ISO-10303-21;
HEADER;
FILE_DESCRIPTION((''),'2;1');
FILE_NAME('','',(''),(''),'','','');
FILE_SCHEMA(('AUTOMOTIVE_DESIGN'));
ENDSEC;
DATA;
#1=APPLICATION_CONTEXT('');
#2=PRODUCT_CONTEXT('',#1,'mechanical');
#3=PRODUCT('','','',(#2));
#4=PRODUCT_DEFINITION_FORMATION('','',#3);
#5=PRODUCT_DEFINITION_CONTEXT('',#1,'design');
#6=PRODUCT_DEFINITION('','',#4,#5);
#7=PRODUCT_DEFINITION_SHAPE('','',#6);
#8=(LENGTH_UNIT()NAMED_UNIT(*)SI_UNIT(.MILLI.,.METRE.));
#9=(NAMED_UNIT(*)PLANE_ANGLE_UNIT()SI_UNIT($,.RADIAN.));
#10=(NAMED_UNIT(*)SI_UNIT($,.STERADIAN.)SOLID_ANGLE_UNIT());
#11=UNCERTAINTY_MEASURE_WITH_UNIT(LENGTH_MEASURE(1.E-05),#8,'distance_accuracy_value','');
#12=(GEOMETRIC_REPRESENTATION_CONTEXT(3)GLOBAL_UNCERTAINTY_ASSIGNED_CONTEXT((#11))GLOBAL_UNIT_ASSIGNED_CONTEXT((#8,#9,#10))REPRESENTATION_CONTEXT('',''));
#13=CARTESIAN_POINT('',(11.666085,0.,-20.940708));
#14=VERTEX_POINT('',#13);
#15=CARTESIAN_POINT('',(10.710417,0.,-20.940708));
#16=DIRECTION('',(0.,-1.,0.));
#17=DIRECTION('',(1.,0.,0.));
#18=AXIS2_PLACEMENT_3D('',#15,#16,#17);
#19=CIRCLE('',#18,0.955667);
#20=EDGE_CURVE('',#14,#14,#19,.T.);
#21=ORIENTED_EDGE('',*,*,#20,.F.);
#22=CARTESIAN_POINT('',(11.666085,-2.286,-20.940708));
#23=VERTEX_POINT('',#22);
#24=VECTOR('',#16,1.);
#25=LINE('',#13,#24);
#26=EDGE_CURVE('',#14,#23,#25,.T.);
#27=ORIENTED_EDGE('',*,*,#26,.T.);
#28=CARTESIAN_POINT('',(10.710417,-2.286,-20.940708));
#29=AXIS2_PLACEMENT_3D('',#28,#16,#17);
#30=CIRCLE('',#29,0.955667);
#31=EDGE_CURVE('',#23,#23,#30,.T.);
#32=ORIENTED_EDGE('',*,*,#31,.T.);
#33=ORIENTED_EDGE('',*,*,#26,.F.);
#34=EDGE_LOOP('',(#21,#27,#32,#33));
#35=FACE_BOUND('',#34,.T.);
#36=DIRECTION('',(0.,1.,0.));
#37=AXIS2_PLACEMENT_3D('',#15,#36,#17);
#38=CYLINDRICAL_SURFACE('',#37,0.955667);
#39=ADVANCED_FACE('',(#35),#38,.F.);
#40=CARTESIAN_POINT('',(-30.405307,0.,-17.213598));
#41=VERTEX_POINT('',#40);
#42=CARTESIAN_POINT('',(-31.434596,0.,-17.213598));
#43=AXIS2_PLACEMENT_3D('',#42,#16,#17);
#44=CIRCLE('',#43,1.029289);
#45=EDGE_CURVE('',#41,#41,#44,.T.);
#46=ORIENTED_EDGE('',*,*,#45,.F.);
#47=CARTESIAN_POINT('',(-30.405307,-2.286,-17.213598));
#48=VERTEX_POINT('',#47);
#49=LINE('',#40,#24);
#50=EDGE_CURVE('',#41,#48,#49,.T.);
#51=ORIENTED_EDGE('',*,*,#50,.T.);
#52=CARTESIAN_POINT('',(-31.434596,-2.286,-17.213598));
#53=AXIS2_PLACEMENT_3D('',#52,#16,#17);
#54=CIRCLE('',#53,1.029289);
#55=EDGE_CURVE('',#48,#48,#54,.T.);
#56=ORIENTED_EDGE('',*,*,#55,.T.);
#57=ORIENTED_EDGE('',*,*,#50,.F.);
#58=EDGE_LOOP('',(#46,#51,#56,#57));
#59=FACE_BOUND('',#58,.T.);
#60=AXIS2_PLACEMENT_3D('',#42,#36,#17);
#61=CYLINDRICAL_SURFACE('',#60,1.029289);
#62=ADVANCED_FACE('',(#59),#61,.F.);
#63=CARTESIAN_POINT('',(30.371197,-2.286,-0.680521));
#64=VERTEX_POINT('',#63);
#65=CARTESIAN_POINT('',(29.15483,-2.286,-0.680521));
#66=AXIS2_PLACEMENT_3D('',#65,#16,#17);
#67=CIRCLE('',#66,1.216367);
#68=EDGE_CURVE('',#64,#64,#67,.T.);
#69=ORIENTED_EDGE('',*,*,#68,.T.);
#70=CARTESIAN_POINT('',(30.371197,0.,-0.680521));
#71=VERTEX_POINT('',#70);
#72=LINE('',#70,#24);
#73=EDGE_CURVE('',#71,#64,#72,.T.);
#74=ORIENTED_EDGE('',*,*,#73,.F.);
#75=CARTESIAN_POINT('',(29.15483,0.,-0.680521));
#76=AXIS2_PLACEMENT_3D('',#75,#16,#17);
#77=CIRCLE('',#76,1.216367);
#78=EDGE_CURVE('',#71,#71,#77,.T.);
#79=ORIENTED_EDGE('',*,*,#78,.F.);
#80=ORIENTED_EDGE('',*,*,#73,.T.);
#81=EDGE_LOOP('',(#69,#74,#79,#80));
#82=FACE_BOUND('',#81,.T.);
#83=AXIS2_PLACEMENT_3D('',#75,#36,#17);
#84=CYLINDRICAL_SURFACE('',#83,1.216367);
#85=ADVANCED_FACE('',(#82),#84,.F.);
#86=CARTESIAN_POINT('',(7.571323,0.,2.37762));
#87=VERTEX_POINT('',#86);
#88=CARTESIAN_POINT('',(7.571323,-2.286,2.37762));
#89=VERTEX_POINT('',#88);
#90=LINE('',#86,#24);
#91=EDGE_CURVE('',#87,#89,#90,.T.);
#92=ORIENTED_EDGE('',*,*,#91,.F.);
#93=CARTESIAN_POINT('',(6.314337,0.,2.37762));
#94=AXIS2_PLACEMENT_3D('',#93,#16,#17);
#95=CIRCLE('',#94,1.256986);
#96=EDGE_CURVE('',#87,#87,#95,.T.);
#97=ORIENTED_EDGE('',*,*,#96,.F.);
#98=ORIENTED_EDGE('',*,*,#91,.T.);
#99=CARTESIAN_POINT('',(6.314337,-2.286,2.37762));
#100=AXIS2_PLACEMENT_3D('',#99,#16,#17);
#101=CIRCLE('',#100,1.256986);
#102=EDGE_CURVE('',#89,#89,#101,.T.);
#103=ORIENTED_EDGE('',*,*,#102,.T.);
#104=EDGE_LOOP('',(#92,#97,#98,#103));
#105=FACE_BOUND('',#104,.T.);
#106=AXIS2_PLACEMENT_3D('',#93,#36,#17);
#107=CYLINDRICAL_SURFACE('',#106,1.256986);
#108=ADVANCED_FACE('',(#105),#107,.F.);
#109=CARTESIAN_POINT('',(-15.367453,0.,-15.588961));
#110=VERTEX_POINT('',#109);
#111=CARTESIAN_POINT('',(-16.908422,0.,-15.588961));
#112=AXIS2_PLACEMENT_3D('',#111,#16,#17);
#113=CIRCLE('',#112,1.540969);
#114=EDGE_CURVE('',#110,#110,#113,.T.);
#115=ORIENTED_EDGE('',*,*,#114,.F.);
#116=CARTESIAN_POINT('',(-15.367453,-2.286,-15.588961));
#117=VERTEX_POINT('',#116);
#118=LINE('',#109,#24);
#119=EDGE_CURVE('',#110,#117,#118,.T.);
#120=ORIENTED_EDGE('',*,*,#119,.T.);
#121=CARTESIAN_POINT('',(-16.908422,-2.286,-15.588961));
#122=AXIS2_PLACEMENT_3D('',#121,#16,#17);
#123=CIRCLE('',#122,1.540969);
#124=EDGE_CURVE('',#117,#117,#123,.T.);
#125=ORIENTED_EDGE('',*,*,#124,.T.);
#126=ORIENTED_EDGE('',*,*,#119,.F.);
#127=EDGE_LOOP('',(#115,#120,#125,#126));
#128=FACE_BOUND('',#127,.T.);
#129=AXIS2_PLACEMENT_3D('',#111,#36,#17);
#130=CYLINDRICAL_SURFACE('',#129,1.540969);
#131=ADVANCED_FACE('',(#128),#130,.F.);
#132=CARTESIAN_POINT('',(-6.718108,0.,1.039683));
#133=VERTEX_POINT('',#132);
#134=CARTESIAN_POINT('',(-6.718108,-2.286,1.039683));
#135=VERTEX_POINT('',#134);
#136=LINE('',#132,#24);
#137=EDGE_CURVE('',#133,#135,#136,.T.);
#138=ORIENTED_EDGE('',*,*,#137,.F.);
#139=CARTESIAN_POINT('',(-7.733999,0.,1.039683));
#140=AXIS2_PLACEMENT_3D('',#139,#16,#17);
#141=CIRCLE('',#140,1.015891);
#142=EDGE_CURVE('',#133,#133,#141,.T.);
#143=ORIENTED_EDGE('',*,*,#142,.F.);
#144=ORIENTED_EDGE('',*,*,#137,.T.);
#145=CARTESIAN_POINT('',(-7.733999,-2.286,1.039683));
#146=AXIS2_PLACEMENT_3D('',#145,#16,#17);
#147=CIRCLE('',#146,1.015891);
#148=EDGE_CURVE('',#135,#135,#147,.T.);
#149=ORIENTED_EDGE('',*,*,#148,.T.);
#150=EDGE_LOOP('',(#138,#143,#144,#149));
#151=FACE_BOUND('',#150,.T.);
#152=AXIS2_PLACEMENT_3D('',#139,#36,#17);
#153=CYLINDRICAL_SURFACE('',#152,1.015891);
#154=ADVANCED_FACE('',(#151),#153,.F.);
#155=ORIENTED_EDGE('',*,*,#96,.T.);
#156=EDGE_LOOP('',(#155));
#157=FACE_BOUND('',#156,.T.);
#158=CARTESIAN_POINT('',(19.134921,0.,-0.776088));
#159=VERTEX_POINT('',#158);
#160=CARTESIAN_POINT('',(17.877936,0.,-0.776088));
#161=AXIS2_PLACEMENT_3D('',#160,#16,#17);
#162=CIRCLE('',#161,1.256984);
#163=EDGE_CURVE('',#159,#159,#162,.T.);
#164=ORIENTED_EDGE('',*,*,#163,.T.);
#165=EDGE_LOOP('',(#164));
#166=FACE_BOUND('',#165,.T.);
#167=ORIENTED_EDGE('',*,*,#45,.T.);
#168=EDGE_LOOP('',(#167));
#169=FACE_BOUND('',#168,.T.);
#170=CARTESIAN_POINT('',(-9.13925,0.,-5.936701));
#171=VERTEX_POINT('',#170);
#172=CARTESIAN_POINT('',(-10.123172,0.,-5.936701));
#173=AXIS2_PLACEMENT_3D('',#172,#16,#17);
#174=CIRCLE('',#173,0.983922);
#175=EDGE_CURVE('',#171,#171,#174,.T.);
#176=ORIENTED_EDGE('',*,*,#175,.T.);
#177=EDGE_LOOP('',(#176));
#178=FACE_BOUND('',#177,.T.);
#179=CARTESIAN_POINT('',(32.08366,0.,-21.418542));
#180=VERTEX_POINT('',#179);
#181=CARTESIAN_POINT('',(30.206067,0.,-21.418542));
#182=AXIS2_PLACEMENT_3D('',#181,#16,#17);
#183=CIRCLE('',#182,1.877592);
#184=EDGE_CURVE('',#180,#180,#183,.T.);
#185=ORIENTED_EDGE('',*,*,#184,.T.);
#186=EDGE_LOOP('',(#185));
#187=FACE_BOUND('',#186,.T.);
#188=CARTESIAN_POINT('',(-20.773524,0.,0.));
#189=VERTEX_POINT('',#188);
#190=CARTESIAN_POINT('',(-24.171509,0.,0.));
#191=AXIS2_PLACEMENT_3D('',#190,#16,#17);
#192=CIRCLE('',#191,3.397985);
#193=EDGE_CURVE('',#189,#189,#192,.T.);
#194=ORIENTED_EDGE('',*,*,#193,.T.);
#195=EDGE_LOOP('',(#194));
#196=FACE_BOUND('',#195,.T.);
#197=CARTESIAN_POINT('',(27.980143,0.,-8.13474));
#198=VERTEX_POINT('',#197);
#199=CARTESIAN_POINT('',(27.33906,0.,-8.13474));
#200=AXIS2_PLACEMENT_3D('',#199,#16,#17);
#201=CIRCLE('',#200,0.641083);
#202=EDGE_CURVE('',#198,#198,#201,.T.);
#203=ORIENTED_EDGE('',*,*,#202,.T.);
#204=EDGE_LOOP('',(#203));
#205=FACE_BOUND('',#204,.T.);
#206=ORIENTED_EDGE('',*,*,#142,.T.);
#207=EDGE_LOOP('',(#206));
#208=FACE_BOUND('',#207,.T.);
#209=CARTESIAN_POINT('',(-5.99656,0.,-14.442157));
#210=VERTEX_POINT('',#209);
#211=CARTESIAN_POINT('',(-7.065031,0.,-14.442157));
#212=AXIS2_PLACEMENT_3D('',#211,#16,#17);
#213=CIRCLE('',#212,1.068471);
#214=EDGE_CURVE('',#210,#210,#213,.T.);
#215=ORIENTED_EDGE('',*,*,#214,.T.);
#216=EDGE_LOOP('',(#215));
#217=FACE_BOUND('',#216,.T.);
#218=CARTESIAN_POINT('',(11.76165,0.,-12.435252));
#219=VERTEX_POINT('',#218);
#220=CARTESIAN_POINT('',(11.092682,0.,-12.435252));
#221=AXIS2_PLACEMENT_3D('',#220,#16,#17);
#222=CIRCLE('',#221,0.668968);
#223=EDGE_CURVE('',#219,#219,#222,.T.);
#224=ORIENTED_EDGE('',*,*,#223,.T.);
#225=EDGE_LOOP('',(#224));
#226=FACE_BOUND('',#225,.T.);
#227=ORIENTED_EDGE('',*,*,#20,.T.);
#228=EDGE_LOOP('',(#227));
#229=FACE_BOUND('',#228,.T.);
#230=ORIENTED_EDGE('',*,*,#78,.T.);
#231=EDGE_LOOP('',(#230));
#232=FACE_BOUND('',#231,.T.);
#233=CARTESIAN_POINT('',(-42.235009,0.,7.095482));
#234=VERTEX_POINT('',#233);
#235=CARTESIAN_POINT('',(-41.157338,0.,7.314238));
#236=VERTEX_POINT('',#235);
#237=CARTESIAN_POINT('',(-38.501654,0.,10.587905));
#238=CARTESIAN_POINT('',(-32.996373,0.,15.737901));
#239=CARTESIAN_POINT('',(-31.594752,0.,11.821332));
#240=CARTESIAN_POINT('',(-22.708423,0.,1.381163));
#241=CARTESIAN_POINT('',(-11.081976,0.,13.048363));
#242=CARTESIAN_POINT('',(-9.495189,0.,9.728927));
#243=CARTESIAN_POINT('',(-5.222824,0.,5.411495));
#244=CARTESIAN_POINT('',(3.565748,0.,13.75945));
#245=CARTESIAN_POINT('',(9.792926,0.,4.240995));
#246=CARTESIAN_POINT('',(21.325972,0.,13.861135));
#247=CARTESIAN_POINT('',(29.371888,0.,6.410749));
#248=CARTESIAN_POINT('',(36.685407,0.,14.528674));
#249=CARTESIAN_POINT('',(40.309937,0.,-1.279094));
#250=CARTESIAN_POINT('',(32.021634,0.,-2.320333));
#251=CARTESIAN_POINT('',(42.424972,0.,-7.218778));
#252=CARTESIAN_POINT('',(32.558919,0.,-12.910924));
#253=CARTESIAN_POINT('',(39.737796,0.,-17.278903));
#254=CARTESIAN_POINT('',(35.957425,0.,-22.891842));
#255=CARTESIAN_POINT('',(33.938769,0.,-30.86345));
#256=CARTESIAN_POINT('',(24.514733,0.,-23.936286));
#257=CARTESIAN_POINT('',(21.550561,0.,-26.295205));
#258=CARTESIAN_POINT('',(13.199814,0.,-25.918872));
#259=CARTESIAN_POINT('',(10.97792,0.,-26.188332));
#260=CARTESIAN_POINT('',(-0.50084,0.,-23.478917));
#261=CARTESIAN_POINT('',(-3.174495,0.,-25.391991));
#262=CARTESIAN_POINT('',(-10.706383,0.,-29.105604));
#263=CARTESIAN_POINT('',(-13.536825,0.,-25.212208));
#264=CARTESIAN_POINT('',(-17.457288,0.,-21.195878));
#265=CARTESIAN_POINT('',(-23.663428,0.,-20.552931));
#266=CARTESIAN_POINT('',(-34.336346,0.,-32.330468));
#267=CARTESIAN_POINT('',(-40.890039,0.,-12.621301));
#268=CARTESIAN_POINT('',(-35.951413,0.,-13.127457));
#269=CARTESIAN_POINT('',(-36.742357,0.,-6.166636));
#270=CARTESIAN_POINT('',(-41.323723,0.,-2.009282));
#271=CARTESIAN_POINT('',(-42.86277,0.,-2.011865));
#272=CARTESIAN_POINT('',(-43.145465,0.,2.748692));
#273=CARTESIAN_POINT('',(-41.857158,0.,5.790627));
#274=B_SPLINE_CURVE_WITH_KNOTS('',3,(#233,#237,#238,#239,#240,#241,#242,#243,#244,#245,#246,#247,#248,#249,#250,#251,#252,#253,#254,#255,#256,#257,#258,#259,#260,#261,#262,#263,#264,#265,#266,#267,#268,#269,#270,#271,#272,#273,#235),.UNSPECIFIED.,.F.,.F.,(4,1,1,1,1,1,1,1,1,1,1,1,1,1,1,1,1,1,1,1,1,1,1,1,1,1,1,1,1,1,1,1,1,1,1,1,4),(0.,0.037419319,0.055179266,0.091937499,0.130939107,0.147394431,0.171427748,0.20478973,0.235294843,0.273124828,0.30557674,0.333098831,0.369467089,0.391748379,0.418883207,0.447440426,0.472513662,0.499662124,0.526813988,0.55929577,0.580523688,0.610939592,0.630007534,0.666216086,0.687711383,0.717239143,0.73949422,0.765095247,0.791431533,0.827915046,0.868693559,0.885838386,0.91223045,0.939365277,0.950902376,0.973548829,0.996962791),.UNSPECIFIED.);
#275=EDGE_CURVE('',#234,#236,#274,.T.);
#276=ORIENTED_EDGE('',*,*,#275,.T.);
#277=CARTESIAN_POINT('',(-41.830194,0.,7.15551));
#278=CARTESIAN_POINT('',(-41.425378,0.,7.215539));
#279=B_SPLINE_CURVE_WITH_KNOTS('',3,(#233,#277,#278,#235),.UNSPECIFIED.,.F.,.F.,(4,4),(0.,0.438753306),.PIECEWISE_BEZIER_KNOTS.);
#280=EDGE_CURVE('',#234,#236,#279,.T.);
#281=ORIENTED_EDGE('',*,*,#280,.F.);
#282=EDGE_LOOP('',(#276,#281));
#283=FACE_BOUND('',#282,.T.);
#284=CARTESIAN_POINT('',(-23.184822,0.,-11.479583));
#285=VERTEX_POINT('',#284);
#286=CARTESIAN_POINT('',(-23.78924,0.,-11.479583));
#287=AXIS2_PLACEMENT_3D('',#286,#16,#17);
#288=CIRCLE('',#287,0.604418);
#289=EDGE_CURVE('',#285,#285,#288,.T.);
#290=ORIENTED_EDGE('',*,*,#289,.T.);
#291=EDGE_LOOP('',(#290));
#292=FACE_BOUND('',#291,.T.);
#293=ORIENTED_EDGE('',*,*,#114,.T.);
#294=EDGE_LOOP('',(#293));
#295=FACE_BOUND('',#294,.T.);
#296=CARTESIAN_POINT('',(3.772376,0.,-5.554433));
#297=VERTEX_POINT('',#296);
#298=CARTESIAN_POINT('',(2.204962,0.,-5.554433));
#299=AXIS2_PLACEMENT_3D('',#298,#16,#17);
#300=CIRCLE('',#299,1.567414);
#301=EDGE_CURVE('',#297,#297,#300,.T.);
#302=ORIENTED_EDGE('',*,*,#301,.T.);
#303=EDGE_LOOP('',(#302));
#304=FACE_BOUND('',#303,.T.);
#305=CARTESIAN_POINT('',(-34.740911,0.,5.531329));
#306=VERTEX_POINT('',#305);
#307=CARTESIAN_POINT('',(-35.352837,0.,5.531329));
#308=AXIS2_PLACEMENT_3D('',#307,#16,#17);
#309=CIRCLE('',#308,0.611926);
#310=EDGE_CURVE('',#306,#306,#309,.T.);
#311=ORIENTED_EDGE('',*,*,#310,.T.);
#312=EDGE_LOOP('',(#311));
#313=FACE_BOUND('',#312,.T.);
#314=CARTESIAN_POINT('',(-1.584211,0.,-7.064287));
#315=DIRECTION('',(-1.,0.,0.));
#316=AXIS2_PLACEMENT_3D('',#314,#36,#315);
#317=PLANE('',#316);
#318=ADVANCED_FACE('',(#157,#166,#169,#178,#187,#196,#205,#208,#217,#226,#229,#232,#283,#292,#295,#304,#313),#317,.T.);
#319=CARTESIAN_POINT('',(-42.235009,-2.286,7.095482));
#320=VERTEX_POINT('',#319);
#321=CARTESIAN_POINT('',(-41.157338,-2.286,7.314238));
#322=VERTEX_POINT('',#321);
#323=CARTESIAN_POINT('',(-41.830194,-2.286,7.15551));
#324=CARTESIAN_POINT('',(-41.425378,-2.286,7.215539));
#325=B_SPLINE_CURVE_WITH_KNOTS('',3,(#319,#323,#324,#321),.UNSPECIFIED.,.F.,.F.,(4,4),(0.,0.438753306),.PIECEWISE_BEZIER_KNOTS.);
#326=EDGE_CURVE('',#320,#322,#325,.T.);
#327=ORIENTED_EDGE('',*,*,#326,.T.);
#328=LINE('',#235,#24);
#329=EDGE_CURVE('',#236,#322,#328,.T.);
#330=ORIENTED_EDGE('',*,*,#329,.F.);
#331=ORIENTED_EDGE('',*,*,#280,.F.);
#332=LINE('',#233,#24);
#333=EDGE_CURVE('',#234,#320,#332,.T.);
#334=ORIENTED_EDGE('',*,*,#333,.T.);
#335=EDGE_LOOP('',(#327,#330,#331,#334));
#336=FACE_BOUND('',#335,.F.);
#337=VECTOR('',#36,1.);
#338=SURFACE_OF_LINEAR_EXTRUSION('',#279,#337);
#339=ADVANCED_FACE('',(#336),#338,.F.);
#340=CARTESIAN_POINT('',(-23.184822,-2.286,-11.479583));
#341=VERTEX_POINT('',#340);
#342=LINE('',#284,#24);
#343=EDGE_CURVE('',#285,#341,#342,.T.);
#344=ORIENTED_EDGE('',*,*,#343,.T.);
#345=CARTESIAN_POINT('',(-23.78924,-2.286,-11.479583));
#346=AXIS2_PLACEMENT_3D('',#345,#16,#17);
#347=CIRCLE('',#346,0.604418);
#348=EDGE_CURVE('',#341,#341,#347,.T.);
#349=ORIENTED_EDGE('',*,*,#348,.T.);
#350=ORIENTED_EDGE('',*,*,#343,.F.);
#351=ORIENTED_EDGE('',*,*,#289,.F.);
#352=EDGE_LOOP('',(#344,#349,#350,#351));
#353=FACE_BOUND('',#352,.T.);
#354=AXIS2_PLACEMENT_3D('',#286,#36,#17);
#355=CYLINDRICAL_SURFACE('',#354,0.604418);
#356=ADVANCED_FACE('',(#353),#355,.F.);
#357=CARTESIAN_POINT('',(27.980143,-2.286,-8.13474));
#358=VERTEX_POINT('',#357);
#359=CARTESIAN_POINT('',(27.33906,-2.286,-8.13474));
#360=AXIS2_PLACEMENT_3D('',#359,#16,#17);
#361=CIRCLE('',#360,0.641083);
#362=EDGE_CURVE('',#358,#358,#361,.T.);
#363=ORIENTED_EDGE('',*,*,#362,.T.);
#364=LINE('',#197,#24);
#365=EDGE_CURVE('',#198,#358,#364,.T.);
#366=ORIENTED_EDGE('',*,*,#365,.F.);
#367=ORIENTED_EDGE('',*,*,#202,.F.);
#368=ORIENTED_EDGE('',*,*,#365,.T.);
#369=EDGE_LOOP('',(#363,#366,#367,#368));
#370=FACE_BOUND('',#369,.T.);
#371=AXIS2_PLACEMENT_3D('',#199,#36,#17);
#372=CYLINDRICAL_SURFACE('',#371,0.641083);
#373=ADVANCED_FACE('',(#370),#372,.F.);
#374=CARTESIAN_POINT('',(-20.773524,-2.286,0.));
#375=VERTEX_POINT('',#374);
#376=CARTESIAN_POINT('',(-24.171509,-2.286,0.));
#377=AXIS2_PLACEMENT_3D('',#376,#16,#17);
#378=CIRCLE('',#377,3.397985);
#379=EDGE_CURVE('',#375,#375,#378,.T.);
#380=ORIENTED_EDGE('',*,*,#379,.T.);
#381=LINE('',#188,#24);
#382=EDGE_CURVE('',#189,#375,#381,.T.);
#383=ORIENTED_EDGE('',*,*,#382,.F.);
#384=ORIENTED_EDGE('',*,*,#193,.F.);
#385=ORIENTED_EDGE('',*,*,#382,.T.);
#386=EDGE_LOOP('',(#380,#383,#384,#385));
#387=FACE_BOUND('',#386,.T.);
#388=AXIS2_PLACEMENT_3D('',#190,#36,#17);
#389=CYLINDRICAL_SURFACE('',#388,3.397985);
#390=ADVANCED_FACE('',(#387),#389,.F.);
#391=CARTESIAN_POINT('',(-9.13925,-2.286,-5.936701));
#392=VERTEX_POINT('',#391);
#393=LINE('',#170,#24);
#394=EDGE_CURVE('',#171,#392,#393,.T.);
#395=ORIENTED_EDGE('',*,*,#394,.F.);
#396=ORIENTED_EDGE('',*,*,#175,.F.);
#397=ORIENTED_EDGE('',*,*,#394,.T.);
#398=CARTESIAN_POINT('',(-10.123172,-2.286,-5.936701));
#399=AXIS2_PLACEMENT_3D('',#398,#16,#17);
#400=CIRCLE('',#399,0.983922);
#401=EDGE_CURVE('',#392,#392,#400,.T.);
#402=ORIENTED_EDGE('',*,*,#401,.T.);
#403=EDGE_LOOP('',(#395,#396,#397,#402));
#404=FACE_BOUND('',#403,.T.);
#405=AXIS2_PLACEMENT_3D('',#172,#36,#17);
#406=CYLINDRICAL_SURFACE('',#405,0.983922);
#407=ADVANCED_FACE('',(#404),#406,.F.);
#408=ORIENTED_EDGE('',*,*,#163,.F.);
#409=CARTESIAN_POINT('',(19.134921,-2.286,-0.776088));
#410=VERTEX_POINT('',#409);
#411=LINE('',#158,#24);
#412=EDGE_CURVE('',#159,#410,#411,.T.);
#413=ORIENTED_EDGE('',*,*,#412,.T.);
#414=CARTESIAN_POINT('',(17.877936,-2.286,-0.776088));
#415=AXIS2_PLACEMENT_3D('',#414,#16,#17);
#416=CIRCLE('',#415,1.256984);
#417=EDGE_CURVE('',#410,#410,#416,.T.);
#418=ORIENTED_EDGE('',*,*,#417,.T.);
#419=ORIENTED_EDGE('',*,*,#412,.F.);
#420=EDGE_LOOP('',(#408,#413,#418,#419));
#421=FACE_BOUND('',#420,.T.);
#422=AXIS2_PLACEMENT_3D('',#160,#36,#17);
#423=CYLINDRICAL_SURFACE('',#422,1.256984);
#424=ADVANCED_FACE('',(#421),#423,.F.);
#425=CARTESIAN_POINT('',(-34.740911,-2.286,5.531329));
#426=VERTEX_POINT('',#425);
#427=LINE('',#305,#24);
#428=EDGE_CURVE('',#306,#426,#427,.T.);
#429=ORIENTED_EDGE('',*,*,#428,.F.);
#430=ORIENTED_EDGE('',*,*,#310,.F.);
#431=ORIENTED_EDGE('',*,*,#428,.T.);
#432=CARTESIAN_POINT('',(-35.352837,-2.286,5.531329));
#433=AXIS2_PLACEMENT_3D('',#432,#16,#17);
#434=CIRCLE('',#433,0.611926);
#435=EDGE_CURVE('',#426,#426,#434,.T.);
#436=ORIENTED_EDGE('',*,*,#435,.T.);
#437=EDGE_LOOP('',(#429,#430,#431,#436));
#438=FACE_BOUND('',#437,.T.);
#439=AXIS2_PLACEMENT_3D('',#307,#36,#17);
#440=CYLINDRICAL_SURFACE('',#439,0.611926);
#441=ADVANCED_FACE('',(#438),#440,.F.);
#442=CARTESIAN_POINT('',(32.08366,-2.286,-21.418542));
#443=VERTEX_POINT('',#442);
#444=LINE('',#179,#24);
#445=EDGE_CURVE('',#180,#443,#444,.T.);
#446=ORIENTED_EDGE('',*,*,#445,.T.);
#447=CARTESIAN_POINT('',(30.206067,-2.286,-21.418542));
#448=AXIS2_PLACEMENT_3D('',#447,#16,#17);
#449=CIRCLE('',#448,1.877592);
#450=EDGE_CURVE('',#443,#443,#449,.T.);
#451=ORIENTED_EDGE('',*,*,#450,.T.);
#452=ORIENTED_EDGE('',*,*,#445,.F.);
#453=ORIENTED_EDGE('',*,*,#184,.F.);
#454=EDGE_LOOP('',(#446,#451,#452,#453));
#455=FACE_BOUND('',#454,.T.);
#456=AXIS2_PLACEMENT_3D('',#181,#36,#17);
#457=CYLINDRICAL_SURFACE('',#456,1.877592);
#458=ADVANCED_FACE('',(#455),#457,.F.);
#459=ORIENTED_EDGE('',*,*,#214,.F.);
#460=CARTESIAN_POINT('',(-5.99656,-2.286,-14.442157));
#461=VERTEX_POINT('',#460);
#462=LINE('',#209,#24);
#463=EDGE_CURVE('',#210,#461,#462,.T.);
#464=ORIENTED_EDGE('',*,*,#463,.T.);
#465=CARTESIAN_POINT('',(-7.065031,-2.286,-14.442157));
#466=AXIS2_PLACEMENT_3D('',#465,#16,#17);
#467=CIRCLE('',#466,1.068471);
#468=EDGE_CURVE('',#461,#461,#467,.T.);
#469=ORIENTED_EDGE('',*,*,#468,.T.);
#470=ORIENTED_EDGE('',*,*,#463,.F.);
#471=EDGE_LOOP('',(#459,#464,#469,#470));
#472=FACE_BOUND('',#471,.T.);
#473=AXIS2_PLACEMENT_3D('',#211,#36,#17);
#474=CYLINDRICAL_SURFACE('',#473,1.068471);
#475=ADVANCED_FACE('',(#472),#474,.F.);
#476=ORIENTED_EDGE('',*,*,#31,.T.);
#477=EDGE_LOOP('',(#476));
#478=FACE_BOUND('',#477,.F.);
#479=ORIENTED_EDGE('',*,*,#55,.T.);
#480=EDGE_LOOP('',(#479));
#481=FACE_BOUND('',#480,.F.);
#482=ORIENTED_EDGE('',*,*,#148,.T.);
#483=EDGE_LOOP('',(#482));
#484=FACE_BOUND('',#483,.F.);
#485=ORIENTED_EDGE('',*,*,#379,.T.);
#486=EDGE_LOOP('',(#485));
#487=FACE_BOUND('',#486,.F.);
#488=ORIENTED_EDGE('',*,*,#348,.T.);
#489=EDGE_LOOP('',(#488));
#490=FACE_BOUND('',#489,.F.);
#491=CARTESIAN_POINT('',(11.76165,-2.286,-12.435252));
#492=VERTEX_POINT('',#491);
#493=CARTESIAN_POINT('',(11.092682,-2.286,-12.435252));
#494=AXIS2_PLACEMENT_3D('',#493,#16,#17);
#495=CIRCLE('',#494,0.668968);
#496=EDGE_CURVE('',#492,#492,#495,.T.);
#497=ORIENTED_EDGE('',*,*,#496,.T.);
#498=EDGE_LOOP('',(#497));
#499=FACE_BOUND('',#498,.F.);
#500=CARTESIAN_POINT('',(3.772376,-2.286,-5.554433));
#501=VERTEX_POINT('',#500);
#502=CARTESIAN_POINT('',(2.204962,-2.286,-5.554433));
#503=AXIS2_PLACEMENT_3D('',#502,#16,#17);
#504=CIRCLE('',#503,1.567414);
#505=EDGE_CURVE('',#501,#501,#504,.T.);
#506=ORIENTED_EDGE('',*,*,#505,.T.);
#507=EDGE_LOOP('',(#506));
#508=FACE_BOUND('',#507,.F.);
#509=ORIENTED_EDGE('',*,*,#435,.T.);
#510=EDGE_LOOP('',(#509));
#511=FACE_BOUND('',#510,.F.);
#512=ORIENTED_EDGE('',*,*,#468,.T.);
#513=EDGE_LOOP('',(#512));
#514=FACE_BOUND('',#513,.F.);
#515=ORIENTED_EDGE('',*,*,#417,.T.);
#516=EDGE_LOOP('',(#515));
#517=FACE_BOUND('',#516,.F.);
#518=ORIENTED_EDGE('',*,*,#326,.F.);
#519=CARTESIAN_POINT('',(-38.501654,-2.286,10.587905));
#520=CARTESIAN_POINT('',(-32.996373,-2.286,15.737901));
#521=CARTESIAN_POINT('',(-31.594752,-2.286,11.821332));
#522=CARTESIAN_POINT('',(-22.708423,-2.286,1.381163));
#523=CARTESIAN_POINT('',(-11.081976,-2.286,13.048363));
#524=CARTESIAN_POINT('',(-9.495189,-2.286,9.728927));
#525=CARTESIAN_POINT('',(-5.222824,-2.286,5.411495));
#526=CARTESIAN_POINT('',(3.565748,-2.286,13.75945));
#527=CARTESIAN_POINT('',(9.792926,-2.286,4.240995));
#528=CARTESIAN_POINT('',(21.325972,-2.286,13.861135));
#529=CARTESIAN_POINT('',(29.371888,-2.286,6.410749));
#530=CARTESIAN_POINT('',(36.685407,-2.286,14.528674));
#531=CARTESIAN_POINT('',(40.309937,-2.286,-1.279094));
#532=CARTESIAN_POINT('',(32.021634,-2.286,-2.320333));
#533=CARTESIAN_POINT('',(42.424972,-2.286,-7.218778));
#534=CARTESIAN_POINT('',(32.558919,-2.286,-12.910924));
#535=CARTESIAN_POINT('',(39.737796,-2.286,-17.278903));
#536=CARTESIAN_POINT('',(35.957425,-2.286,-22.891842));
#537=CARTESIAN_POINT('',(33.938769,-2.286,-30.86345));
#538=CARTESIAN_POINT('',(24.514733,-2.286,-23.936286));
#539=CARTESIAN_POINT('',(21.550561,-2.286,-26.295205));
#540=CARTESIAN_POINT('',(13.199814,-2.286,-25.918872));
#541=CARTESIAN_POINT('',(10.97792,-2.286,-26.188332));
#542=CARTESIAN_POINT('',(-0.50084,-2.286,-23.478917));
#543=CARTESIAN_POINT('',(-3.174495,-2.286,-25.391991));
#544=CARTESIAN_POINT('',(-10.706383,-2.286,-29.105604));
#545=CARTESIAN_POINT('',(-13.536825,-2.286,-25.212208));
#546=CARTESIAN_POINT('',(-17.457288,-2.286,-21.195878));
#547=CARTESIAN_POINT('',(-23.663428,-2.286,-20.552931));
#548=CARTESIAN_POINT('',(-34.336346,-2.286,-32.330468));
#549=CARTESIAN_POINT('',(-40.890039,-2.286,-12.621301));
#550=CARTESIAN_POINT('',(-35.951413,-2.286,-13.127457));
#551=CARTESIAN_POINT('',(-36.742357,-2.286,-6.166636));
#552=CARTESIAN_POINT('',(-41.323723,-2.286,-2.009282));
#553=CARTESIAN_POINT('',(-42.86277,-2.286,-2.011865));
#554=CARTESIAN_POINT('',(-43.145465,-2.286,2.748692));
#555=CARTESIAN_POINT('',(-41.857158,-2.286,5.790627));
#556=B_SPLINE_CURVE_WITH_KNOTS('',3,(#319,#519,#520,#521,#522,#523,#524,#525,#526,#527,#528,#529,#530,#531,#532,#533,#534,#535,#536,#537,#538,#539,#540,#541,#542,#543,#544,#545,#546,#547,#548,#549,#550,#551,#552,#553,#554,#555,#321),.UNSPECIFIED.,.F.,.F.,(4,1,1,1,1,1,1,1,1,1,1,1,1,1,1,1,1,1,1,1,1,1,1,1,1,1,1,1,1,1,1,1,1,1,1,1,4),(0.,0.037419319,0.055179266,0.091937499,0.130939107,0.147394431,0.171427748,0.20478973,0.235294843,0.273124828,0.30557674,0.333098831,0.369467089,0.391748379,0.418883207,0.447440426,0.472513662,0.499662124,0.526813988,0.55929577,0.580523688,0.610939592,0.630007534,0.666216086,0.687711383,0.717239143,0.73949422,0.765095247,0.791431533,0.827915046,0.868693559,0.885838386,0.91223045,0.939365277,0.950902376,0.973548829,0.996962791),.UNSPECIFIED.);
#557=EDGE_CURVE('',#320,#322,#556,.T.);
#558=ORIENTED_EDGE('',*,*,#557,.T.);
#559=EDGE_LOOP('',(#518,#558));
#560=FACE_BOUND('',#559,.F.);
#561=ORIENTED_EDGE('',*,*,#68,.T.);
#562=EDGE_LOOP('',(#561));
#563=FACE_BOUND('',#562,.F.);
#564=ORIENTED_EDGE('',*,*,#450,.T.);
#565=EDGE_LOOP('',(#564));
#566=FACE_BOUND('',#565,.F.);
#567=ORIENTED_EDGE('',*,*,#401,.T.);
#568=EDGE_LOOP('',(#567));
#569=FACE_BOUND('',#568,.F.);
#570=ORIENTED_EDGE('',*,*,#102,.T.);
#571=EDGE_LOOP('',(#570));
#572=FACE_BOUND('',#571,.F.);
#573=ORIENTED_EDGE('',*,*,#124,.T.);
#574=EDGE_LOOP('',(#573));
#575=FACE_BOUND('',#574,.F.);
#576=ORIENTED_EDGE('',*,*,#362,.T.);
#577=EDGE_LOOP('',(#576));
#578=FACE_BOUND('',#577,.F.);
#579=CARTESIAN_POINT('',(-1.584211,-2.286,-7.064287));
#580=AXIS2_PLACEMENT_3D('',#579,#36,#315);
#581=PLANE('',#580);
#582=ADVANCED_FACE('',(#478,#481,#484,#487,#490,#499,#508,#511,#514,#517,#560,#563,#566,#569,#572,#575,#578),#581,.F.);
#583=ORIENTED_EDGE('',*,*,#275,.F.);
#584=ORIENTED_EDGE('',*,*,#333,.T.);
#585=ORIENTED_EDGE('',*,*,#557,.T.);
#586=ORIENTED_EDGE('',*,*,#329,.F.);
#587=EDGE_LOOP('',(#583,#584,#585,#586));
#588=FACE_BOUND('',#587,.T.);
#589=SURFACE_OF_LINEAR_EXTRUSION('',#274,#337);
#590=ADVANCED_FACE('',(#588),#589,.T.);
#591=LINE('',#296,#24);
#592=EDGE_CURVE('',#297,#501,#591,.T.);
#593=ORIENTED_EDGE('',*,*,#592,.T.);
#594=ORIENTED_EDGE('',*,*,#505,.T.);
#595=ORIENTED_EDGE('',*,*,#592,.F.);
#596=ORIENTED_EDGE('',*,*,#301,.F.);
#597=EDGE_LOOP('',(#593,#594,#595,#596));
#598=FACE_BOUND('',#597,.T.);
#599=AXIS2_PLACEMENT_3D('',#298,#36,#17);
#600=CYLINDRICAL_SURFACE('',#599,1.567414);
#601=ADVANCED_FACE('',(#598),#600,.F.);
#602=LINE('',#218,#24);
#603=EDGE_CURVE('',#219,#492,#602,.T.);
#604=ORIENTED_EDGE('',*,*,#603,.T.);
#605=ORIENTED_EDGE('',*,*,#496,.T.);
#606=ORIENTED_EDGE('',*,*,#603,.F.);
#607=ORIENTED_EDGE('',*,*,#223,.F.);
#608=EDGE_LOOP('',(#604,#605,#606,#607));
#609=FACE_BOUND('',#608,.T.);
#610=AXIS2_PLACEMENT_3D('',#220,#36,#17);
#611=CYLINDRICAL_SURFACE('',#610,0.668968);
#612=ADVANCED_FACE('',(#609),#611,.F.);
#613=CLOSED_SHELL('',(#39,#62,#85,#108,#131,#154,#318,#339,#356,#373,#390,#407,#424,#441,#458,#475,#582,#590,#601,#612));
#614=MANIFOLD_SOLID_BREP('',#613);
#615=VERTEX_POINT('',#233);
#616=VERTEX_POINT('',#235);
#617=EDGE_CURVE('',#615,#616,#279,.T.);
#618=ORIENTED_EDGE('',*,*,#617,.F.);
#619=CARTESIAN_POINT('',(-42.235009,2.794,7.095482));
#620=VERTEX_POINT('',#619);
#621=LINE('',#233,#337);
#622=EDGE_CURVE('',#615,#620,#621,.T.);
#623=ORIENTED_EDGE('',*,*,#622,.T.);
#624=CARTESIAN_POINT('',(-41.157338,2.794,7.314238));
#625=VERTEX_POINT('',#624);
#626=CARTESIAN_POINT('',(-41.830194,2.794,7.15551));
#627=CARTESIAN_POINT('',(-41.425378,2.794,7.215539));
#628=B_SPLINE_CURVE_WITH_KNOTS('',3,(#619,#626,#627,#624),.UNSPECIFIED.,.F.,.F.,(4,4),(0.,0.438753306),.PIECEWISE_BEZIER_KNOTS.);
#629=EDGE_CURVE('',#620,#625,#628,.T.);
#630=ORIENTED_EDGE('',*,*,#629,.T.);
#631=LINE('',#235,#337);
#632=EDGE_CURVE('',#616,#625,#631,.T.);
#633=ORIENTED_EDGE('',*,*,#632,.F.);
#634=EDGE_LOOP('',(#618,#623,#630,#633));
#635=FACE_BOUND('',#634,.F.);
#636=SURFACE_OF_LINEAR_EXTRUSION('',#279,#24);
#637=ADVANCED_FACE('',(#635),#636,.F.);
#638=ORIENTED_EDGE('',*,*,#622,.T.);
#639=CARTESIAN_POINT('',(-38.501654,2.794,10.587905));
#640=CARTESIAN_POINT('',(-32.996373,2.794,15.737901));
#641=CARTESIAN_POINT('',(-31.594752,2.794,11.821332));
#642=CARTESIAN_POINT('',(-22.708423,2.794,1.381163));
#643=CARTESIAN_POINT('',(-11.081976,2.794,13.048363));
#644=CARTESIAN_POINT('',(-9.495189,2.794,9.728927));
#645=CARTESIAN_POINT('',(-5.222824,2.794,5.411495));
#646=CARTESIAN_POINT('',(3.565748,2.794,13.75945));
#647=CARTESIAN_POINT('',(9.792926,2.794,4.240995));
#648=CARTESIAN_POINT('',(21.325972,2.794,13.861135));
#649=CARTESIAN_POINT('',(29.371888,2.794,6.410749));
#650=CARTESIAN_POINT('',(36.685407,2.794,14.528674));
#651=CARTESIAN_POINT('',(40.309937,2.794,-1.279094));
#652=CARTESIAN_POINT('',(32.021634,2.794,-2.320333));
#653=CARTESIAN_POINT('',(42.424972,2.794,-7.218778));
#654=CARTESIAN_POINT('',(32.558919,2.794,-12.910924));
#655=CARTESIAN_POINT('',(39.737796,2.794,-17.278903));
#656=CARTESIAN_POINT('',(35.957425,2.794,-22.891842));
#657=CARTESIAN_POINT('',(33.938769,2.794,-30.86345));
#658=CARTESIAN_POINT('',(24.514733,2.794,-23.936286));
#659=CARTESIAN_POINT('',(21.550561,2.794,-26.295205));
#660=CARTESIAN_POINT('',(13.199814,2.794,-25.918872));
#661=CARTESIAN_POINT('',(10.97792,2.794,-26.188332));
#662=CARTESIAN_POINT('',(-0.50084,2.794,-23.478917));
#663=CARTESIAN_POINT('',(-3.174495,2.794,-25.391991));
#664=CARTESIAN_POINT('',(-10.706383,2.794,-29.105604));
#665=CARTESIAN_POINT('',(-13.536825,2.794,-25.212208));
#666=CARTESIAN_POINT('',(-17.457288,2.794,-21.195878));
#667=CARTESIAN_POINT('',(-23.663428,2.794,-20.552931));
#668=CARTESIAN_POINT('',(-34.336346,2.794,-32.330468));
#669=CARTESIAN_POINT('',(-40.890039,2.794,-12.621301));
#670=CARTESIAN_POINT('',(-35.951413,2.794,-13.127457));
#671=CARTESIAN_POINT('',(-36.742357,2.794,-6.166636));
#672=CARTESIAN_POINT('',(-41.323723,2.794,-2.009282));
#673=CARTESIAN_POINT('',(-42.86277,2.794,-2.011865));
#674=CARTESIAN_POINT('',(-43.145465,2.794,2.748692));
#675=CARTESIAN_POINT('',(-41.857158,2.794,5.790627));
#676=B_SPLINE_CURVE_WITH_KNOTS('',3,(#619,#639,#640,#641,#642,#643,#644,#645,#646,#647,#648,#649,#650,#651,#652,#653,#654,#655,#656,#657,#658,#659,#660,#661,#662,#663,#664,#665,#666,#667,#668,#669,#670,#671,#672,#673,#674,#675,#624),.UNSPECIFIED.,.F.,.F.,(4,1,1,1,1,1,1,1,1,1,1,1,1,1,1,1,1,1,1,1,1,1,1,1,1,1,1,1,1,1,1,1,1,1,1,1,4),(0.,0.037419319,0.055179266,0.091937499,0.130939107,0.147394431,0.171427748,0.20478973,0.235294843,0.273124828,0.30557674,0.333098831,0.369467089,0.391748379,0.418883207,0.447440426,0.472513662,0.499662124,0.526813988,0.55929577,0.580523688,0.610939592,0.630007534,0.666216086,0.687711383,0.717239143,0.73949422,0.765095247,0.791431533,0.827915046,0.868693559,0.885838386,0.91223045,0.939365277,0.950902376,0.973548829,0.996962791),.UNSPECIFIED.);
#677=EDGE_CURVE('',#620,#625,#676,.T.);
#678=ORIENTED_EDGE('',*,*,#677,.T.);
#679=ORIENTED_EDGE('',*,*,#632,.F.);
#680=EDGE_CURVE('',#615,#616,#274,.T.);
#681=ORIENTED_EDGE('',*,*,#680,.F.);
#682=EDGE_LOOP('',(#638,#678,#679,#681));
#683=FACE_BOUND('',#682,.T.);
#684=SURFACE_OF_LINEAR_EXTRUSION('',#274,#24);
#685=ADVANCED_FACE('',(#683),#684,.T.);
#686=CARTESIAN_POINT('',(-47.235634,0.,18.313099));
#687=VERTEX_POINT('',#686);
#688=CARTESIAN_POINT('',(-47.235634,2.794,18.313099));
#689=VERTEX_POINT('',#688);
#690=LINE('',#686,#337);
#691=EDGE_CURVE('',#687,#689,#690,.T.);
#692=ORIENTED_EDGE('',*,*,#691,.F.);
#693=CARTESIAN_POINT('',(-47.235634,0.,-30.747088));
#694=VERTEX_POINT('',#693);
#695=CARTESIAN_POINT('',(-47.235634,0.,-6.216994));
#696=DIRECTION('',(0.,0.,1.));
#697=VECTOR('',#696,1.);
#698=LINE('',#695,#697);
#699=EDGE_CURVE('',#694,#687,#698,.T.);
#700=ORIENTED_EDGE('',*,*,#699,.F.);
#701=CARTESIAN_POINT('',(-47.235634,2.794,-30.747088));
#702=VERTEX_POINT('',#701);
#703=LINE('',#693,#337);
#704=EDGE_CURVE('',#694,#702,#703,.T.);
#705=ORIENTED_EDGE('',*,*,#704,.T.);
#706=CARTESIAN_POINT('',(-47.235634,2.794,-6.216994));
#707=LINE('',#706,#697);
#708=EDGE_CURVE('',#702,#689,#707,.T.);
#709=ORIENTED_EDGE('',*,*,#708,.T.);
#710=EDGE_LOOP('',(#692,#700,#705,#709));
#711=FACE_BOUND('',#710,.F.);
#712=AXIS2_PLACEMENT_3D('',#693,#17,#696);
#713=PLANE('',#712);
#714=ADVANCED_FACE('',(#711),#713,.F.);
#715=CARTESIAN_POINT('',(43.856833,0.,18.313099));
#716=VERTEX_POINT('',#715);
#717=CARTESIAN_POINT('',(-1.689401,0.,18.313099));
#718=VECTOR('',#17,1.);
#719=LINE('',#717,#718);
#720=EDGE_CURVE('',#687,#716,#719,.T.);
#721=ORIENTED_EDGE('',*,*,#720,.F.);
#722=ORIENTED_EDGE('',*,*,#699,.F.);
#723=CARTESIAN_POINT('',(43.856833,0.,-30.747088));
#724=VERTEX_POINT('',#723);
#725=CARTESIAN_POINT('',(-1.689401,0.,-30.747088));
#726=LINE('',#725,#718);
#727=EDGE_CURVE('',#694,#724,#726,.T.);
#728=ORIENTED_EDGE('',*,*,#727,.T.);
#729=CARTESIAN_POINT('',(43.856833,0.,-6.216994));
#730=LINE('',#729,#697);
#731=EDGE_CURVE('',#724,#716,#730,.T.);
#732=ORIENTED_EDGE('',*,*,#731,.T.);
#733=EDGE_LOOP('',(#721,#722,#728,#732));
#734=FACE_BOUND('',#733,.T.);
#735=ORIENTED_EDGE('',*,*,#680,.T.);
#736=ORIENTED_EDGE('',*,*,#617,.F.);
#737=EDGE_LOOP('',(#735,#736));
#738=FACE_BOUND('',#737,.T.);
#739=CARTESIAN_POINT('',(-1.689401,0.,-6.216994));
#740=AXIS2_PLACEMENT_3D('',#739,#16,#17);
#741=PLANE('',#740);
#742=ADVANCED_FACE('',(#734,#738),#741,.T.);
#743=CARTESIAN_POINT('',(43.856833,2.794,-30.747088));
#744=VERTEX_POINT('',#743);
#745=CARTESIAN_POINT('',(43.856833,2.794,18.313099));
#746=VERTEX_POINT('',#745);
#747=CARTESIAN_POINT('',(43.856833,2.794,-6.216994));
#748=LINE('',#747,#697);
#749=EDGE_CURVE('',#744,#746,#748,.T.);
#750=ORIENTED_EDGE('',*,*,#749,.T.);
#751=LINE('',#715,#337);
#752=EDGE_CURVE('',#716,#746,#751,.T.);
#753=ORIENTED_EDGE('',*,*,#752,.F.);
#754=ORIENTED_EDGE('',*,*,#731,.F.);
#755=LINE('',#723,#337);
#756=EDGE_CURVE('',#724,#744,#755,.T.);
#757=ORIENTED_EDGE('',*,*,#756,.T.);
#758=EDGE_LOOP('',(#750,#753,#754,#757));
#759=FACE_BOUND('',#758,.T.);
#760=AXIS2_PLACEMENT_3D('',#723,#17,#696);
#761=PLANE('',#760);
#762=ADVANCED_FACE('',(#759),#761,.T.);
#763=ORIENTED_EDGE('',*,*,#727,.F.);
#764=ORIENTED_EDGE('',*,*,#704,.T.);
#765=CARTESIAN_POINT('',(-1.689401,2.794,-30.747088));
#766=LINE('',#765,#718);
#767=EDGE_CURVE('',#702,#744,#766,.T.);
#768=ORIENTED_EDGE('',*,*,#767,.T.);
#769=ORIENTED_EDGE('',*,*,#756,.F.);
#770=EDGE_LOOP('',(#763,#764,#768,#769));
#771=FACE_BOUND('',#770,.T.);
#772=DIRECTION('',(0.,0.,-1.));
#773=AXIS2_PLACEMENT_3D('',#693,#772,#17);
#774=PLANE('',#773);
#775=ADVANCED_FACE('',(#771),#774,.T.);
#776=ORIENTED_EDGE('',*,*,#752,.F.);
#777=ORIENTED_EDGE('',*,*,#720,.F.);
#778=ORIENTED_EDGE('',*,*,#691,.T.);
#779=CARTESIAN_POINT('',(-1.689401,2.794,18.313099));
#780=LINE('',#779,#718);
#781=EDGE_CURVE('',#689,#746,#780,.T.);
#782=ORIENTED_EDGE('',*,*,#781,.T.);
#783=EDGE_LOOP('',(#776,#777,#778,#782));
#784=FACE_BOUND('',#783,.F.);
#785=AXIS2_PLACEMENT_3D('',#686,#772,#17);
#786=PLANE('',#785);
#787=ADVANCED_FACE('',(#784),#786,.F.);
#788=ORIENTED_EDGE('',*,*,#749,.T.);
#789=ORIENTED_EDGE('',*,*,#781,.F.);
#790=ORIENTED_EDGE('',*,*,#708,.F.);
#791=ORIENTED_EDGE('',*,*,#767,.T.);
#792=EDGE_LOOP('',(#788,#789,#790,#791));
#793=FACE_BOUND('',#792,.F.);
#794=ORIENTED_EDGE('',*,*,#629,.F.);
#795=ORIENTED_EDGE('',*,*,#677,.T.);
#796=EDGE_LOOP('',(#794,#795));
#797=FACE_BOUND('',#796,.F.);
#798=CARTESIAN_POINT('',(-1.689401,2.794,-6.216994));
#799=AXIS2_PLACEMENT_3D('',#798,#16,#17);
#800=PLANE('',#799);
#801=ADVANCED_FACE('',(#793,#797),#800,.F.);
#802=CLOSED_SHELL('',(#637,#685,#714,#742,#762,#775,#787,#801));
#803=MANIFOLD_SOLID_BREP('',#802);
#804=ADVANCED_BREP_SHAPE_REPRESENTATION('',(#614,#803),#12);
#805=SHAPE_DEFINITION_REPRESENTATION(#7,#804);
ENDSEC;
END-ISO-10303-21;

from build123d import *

# Parameters (mm, degrees)
F0_R     = 1.0292886914
F0_R_2   = 1.5409690269
F0_R_3   = 1.0684706581
F0_R_4   = 0.6044179837
F0_R_5   = 0.9556673467
F0_R_6   = 1.8775920292
F0_R_7   = 0.668968074
F0_R_8   = 0.6410828113
F0_R_9   = 0.6119264023
F0_R_10  = 0.9839218345
F0_R_11  = 3.3979849831
F0_R_12  = 1.0158913087
F0_R_13  = 1.5674141974
F0_R_14  = 1.2569841778
F0_R_15  = 1.2569864525
F0_R_16  = 1.2163670207
F1_DEPTH = 2.286
F0_W     = 91.092467308
F0_H     = 49.0601863712
F2_DEPTH = 2.794


with BuildPart() as f1:
    # F0 (on Front) → F1 (new body)
    with BuildSketch(Plane.XZ):
        with BuildLine():
            add(Edge.make_bspline(
                [(-42.2350093722, 7.0954817347), (-38.5016535118, 10.5879047163), (-32.996373329, 15.7379005241), (-31.594752378, 11.8213316394), (-22.7084226994, 1.3811625454), (-11.0819758489, 13.0483625897), (-9.4951885739, 9.7289273542), (-5.2228243188, 5.4114948276), (3.5657483461, 13.7594503632), (9.792925823, 4.2409950249), (21.3259717855, 13.8611351479), (29.3718875219, 6.4107487998), (36.6854066153, 14.528673538), (40.3099374025, -1.2790935545), (32.0216341996, -2.3203328749), (42.4249715544, -7.2187775395), (32.5589191045, -12.910924164), (39.7377960631, -17.2789031645), (35.9574247382, -22.8918424534), (33.9387686428, -30.8634499077), (24.5147334589, -23.9362856283), (21.5505613343, -26.2952049307), (13.1998140059, -25.9188719206), (10.977919701, -26.1883315171), (-0.5008395657, -23.4789174716), (-3.1744947745, -25.3919907702), (-10.7063833906, -29.10560394), (-13.5368254243, -25.2122081316), (-17.457287982, -21.1958782039), (-23.6634282649, -20.5529312138), (-34.3363457176, -32.3304681146), (-40.8900387745, -12.6213006406), (-35.9514126746, -13.1274565683), (-36.742357289, -6.1666361314), (-41.3237232143, -2.0092819993), (-42.8627702972, -2.0118650303), (-43.1454653809, 2.7486921211), (-41.8571579215, 5.7906265), (-41.1573383725, 7.3142381231)],
                knots=[0, 0, 0, 0, 0.0374193193, 0.0551792663, 0.0919374991, 0.1309391068, 0.1473944308, 0.1714277482, 0.2047897302, 0.2352948429, 0.2731248284, 0.3055767402, 0.3330988307, 0.3694670892, 0.3917483792, 0.4188832072, 0.4474404259, 0.472513662, 0.4996621237, 0.5268139876, 0.5592957701, 0.5805236878, 0.6109395918, 0.6300075339, 0.6662160858, 0.6877113833, 0.7172391428, 0.7394942202, 0.7650952466, 0.7914315327, 0.8279150461, 0.8686935587, 0.8858383863, 0.91223045, 0.9393652772, 0.9509023756, 0.9735488289, 0.9969627908, 0.9969627908, 0.9969627908, 0.9969627908], degree=3))
            add(Edge.make_bspline(
                [(-42.2350093722, 7.0954817347), (-41.8301936078, 7.1555104525), (-41.4253778433, 7.2155391703), (-41.1573383725, 7.3142381231)],
                knots=[0, 0, 0, 0, 0.438753306, 0.438753306, 0.438753306, 0.438753306], degree=3))
        make_face()
        with Locations((-31.4345955849, -17.2135978937)):
            Circle(F0_R, mode=Mode.SUBTRACT)
        with Locations((-16.9084221125, -15.5889606103)):
            Circle(F0_R_2, mode=Mode.SUBTRACT)
        with Locations((-7.0650307462, -14.4421570003)):
            Circle(F0_R_3, mode=Mode.SUBTRACT)
        with Locations((-23.7892400473, -11.4795826375)):
            Circle(F0_R_4, mode=Mode.SUBTRACT)
        with Locations((10.710417293, -20.9407079965)):
            Circle(F0_R_5, mode=Mode.SUBTRACT)
        with Locations((30.2060674876, -21.4185416698)):
            Circle(F0_R_6, mode=Mode.SUBTRACT)
        with Locations((11.0926823691, -12.4352518469)):
            Circle(F0_R_7, mode=Mode.SUBTRACT)
        with Locations((27.3390598595, -8.1347404048)):
            Circle(F0_R_8, mode=Mode.SUBTRACT)
        with Locations((-35.3528372943, 5.5313287303)):
            Circle(F0_R_9, mode=Mode.SUBTRACT)
        with Locations((-10.1231718436, -5.9367013164)):
            Circle(F0_R_10, mode=Mode.SUBTRACT)
        with Locations((-24.1715088487, 0)):
            Circle(F0_R_11, mode=Mode.SUBTRACT)
        with Locations((-7.7339992858, 1.0396834696)):
            Circle(F0_R_12, mode=Mode.SUBTRACT)
        with BuildLine():
            add(Edge.make_bspline(
                [(-41.1573383725, 7.3142381231), (-41.0307389859, 7.3608552383), (-40.7705043691, 7.5104732459), (-40.8397874255, 7.7532545168), (-40.8834889531, 7.906393148)],
                knots=[0.438753306, 0.438753306, 0.438753306, 0.438753306, 0.6459836041, 1, 1, 1, 1], degree=3))
            add(Edge.make_bspline(
                [(-41.1573383725, 7.3142381231), (-41.0665592742, 7.5118777711), (-40.9750241137, 7.7091354595), (-40.8834889531, 7.906393148)],
                knots=[0.9969627908, 0.9969627908, 0.9969627908, 0.9969627908, 1, 1, 1, 1], degree=3))
        make_face(mode=Mode.SUBTRACT)
        with Locations((2.2049618419, -5.5544334464)):
            Circle(F0_R_13, mode=Mode.SUBTRACT)
        with Locations((17.8779363632, -0.7760881563)):
            Circle(F0_R_14, mode=Mode.SUBTRACT)
        with Locations((6.3143367879, 2.3776201997)):
            Circle(F0_R_15, mode=Mode.SUBTRACT)
        with Locations((29.1548296809, -0.6805208977)):
            Circle(F0_R_16, mode=Mode.SUBTRACT)
        with BuildLine():
            add(Edge.make_bspline(
                [(-41.1573383725, 7.3142381231), (-41.0665592742, 7.5118777711), (-40.9750241137, 7.7091354595), (-40.8834889531, 7.906393148)],
                knots=[0.9969627908, 0.9969627908, 0.9969627908, 0.9969627908, 1, 1, 1, 1], degree=3))
            add(Edge.make_bspline(
                [(-41.1573383725, 7.3142381231), (-41.0307389859, 7.3608552383), (-40.7705043691, 7.5104732459), (-40.8397874255, 7.7532545168), (-40.8834889531, 7.906393148)],
                knots=[0.438753306, 0.438753306, 0.438753306, 0.438753306, 0.6459836041, 1, 1, 1, 1], degree=3))
        make_face()
    extrude(amount=F1_DEPTH)


with BuildPart() as f2:
    # F0 (on Front) → F2 (new body)
    with BuildSketch(Plane.XZ):
        with Locations((-1.6894005239, -6.2169944867)):
            Rectangle(F0_W, F0_H)
        with BuildLine():
            add(Edge.make_bspline(
                [(-42.2350093722, 7.0954817347), (-41.8301936078, 7.1555104525), (-41.4253778433, 7.2155391703), (-41.1573383725, 7.3142381231)],
                knots=[0, 0, 0, 0, 0.438753306, 0.438753306, 0.438753306, 0.438753306], degree=3))
            add(Edge.make_bspline(
                [(-42.2350093722, 7.0954817347), (-38.5016535118, 10.5879047163), (-32.996373329, 15.7379005241), (-31.594752378, 11.8213316394), (-22.7084226994, 1.3811625454), (-11.0819758489, 13.0483625897), (-9.4951885739, 9.7289273542), (-5.2228243188, 5.4114948276), (3.5657483461, 13.7594503632), (9.792925823, 4.2409950249), (21.3259717855, 13.8611351479), (29.3718875219, 6.4107487998), (36.6854066153, 14.528673538), (40.3099374025, -1.2790935545), (32.0216341996, -2.3203328749), (42.4249715544, -7.2187775395), (32.5589191045, -12.910924164), (39.7377960631, -17.2789031645), (35.9574247382, -22.8918424534), (33.9387686428, -30.8634499077), (24.5147334589, -23.9362856283), (21.5505613343, -26.2952049307), (13.1998140059, -25.9188719206), (10.977919701, -26.1883315171), (-0.5008395657, -23.4789174716), (-3.1744947745, -25.3919907702), (-10.7063833906, -29.10560394), (-13.5368254243, -25.2122081316), (-17.457287982, -21.1958782039), (-23.6634282649, -20.5529312138), (-34.3363457176, -32.3304681146), (-40.8900387745, -12.6213006406), (-35.9514126746, -13.1274565683), (-36.742357289, -6.1666361314), (-41.3237232143, -2.0092819993), (-42.8627702972, -2.0118650303), (-43.1454653809, 2.7486921211), (-41.8571579215, 5.7906265), (-41.1573383725, 7.3142381231)],
                knots=[0, 0, 0, 0, 0.0374193193, 0.0551792663, 0.0919374991, 0.1309391068, 0.1473944308, 0.1714277482, 0.2047897302, 0.2352948429, 0.2731248284, 0.3055767402, 0.3330988307, 0.3694670892, 0.3917483792, 0.4188832072, 0.4474404259, 0.472513662, 0.4996621237, 0.5268139876, 0.5592957701, 0.5805236878, 0.6109395918, 0.6300075339, 0.6662160858, 0.6877113833, 0.7172391428, 0.7394942202, 0.7650952466, 0.7914315327, 0.8279150461, 0.8686935587, 0.8858383863, 0.91223045, 0.9393652772, 0.9509023756, 0.9735488289, 0.9969627908, 0.9969627908, 0.9969627908, 0.9969627908], degree=3))
        make_face(mode=Mode.SUBTRACT)
    extrude(amount=-F2_DEPTH)


solid = Compound([f1.part, f2.part])
